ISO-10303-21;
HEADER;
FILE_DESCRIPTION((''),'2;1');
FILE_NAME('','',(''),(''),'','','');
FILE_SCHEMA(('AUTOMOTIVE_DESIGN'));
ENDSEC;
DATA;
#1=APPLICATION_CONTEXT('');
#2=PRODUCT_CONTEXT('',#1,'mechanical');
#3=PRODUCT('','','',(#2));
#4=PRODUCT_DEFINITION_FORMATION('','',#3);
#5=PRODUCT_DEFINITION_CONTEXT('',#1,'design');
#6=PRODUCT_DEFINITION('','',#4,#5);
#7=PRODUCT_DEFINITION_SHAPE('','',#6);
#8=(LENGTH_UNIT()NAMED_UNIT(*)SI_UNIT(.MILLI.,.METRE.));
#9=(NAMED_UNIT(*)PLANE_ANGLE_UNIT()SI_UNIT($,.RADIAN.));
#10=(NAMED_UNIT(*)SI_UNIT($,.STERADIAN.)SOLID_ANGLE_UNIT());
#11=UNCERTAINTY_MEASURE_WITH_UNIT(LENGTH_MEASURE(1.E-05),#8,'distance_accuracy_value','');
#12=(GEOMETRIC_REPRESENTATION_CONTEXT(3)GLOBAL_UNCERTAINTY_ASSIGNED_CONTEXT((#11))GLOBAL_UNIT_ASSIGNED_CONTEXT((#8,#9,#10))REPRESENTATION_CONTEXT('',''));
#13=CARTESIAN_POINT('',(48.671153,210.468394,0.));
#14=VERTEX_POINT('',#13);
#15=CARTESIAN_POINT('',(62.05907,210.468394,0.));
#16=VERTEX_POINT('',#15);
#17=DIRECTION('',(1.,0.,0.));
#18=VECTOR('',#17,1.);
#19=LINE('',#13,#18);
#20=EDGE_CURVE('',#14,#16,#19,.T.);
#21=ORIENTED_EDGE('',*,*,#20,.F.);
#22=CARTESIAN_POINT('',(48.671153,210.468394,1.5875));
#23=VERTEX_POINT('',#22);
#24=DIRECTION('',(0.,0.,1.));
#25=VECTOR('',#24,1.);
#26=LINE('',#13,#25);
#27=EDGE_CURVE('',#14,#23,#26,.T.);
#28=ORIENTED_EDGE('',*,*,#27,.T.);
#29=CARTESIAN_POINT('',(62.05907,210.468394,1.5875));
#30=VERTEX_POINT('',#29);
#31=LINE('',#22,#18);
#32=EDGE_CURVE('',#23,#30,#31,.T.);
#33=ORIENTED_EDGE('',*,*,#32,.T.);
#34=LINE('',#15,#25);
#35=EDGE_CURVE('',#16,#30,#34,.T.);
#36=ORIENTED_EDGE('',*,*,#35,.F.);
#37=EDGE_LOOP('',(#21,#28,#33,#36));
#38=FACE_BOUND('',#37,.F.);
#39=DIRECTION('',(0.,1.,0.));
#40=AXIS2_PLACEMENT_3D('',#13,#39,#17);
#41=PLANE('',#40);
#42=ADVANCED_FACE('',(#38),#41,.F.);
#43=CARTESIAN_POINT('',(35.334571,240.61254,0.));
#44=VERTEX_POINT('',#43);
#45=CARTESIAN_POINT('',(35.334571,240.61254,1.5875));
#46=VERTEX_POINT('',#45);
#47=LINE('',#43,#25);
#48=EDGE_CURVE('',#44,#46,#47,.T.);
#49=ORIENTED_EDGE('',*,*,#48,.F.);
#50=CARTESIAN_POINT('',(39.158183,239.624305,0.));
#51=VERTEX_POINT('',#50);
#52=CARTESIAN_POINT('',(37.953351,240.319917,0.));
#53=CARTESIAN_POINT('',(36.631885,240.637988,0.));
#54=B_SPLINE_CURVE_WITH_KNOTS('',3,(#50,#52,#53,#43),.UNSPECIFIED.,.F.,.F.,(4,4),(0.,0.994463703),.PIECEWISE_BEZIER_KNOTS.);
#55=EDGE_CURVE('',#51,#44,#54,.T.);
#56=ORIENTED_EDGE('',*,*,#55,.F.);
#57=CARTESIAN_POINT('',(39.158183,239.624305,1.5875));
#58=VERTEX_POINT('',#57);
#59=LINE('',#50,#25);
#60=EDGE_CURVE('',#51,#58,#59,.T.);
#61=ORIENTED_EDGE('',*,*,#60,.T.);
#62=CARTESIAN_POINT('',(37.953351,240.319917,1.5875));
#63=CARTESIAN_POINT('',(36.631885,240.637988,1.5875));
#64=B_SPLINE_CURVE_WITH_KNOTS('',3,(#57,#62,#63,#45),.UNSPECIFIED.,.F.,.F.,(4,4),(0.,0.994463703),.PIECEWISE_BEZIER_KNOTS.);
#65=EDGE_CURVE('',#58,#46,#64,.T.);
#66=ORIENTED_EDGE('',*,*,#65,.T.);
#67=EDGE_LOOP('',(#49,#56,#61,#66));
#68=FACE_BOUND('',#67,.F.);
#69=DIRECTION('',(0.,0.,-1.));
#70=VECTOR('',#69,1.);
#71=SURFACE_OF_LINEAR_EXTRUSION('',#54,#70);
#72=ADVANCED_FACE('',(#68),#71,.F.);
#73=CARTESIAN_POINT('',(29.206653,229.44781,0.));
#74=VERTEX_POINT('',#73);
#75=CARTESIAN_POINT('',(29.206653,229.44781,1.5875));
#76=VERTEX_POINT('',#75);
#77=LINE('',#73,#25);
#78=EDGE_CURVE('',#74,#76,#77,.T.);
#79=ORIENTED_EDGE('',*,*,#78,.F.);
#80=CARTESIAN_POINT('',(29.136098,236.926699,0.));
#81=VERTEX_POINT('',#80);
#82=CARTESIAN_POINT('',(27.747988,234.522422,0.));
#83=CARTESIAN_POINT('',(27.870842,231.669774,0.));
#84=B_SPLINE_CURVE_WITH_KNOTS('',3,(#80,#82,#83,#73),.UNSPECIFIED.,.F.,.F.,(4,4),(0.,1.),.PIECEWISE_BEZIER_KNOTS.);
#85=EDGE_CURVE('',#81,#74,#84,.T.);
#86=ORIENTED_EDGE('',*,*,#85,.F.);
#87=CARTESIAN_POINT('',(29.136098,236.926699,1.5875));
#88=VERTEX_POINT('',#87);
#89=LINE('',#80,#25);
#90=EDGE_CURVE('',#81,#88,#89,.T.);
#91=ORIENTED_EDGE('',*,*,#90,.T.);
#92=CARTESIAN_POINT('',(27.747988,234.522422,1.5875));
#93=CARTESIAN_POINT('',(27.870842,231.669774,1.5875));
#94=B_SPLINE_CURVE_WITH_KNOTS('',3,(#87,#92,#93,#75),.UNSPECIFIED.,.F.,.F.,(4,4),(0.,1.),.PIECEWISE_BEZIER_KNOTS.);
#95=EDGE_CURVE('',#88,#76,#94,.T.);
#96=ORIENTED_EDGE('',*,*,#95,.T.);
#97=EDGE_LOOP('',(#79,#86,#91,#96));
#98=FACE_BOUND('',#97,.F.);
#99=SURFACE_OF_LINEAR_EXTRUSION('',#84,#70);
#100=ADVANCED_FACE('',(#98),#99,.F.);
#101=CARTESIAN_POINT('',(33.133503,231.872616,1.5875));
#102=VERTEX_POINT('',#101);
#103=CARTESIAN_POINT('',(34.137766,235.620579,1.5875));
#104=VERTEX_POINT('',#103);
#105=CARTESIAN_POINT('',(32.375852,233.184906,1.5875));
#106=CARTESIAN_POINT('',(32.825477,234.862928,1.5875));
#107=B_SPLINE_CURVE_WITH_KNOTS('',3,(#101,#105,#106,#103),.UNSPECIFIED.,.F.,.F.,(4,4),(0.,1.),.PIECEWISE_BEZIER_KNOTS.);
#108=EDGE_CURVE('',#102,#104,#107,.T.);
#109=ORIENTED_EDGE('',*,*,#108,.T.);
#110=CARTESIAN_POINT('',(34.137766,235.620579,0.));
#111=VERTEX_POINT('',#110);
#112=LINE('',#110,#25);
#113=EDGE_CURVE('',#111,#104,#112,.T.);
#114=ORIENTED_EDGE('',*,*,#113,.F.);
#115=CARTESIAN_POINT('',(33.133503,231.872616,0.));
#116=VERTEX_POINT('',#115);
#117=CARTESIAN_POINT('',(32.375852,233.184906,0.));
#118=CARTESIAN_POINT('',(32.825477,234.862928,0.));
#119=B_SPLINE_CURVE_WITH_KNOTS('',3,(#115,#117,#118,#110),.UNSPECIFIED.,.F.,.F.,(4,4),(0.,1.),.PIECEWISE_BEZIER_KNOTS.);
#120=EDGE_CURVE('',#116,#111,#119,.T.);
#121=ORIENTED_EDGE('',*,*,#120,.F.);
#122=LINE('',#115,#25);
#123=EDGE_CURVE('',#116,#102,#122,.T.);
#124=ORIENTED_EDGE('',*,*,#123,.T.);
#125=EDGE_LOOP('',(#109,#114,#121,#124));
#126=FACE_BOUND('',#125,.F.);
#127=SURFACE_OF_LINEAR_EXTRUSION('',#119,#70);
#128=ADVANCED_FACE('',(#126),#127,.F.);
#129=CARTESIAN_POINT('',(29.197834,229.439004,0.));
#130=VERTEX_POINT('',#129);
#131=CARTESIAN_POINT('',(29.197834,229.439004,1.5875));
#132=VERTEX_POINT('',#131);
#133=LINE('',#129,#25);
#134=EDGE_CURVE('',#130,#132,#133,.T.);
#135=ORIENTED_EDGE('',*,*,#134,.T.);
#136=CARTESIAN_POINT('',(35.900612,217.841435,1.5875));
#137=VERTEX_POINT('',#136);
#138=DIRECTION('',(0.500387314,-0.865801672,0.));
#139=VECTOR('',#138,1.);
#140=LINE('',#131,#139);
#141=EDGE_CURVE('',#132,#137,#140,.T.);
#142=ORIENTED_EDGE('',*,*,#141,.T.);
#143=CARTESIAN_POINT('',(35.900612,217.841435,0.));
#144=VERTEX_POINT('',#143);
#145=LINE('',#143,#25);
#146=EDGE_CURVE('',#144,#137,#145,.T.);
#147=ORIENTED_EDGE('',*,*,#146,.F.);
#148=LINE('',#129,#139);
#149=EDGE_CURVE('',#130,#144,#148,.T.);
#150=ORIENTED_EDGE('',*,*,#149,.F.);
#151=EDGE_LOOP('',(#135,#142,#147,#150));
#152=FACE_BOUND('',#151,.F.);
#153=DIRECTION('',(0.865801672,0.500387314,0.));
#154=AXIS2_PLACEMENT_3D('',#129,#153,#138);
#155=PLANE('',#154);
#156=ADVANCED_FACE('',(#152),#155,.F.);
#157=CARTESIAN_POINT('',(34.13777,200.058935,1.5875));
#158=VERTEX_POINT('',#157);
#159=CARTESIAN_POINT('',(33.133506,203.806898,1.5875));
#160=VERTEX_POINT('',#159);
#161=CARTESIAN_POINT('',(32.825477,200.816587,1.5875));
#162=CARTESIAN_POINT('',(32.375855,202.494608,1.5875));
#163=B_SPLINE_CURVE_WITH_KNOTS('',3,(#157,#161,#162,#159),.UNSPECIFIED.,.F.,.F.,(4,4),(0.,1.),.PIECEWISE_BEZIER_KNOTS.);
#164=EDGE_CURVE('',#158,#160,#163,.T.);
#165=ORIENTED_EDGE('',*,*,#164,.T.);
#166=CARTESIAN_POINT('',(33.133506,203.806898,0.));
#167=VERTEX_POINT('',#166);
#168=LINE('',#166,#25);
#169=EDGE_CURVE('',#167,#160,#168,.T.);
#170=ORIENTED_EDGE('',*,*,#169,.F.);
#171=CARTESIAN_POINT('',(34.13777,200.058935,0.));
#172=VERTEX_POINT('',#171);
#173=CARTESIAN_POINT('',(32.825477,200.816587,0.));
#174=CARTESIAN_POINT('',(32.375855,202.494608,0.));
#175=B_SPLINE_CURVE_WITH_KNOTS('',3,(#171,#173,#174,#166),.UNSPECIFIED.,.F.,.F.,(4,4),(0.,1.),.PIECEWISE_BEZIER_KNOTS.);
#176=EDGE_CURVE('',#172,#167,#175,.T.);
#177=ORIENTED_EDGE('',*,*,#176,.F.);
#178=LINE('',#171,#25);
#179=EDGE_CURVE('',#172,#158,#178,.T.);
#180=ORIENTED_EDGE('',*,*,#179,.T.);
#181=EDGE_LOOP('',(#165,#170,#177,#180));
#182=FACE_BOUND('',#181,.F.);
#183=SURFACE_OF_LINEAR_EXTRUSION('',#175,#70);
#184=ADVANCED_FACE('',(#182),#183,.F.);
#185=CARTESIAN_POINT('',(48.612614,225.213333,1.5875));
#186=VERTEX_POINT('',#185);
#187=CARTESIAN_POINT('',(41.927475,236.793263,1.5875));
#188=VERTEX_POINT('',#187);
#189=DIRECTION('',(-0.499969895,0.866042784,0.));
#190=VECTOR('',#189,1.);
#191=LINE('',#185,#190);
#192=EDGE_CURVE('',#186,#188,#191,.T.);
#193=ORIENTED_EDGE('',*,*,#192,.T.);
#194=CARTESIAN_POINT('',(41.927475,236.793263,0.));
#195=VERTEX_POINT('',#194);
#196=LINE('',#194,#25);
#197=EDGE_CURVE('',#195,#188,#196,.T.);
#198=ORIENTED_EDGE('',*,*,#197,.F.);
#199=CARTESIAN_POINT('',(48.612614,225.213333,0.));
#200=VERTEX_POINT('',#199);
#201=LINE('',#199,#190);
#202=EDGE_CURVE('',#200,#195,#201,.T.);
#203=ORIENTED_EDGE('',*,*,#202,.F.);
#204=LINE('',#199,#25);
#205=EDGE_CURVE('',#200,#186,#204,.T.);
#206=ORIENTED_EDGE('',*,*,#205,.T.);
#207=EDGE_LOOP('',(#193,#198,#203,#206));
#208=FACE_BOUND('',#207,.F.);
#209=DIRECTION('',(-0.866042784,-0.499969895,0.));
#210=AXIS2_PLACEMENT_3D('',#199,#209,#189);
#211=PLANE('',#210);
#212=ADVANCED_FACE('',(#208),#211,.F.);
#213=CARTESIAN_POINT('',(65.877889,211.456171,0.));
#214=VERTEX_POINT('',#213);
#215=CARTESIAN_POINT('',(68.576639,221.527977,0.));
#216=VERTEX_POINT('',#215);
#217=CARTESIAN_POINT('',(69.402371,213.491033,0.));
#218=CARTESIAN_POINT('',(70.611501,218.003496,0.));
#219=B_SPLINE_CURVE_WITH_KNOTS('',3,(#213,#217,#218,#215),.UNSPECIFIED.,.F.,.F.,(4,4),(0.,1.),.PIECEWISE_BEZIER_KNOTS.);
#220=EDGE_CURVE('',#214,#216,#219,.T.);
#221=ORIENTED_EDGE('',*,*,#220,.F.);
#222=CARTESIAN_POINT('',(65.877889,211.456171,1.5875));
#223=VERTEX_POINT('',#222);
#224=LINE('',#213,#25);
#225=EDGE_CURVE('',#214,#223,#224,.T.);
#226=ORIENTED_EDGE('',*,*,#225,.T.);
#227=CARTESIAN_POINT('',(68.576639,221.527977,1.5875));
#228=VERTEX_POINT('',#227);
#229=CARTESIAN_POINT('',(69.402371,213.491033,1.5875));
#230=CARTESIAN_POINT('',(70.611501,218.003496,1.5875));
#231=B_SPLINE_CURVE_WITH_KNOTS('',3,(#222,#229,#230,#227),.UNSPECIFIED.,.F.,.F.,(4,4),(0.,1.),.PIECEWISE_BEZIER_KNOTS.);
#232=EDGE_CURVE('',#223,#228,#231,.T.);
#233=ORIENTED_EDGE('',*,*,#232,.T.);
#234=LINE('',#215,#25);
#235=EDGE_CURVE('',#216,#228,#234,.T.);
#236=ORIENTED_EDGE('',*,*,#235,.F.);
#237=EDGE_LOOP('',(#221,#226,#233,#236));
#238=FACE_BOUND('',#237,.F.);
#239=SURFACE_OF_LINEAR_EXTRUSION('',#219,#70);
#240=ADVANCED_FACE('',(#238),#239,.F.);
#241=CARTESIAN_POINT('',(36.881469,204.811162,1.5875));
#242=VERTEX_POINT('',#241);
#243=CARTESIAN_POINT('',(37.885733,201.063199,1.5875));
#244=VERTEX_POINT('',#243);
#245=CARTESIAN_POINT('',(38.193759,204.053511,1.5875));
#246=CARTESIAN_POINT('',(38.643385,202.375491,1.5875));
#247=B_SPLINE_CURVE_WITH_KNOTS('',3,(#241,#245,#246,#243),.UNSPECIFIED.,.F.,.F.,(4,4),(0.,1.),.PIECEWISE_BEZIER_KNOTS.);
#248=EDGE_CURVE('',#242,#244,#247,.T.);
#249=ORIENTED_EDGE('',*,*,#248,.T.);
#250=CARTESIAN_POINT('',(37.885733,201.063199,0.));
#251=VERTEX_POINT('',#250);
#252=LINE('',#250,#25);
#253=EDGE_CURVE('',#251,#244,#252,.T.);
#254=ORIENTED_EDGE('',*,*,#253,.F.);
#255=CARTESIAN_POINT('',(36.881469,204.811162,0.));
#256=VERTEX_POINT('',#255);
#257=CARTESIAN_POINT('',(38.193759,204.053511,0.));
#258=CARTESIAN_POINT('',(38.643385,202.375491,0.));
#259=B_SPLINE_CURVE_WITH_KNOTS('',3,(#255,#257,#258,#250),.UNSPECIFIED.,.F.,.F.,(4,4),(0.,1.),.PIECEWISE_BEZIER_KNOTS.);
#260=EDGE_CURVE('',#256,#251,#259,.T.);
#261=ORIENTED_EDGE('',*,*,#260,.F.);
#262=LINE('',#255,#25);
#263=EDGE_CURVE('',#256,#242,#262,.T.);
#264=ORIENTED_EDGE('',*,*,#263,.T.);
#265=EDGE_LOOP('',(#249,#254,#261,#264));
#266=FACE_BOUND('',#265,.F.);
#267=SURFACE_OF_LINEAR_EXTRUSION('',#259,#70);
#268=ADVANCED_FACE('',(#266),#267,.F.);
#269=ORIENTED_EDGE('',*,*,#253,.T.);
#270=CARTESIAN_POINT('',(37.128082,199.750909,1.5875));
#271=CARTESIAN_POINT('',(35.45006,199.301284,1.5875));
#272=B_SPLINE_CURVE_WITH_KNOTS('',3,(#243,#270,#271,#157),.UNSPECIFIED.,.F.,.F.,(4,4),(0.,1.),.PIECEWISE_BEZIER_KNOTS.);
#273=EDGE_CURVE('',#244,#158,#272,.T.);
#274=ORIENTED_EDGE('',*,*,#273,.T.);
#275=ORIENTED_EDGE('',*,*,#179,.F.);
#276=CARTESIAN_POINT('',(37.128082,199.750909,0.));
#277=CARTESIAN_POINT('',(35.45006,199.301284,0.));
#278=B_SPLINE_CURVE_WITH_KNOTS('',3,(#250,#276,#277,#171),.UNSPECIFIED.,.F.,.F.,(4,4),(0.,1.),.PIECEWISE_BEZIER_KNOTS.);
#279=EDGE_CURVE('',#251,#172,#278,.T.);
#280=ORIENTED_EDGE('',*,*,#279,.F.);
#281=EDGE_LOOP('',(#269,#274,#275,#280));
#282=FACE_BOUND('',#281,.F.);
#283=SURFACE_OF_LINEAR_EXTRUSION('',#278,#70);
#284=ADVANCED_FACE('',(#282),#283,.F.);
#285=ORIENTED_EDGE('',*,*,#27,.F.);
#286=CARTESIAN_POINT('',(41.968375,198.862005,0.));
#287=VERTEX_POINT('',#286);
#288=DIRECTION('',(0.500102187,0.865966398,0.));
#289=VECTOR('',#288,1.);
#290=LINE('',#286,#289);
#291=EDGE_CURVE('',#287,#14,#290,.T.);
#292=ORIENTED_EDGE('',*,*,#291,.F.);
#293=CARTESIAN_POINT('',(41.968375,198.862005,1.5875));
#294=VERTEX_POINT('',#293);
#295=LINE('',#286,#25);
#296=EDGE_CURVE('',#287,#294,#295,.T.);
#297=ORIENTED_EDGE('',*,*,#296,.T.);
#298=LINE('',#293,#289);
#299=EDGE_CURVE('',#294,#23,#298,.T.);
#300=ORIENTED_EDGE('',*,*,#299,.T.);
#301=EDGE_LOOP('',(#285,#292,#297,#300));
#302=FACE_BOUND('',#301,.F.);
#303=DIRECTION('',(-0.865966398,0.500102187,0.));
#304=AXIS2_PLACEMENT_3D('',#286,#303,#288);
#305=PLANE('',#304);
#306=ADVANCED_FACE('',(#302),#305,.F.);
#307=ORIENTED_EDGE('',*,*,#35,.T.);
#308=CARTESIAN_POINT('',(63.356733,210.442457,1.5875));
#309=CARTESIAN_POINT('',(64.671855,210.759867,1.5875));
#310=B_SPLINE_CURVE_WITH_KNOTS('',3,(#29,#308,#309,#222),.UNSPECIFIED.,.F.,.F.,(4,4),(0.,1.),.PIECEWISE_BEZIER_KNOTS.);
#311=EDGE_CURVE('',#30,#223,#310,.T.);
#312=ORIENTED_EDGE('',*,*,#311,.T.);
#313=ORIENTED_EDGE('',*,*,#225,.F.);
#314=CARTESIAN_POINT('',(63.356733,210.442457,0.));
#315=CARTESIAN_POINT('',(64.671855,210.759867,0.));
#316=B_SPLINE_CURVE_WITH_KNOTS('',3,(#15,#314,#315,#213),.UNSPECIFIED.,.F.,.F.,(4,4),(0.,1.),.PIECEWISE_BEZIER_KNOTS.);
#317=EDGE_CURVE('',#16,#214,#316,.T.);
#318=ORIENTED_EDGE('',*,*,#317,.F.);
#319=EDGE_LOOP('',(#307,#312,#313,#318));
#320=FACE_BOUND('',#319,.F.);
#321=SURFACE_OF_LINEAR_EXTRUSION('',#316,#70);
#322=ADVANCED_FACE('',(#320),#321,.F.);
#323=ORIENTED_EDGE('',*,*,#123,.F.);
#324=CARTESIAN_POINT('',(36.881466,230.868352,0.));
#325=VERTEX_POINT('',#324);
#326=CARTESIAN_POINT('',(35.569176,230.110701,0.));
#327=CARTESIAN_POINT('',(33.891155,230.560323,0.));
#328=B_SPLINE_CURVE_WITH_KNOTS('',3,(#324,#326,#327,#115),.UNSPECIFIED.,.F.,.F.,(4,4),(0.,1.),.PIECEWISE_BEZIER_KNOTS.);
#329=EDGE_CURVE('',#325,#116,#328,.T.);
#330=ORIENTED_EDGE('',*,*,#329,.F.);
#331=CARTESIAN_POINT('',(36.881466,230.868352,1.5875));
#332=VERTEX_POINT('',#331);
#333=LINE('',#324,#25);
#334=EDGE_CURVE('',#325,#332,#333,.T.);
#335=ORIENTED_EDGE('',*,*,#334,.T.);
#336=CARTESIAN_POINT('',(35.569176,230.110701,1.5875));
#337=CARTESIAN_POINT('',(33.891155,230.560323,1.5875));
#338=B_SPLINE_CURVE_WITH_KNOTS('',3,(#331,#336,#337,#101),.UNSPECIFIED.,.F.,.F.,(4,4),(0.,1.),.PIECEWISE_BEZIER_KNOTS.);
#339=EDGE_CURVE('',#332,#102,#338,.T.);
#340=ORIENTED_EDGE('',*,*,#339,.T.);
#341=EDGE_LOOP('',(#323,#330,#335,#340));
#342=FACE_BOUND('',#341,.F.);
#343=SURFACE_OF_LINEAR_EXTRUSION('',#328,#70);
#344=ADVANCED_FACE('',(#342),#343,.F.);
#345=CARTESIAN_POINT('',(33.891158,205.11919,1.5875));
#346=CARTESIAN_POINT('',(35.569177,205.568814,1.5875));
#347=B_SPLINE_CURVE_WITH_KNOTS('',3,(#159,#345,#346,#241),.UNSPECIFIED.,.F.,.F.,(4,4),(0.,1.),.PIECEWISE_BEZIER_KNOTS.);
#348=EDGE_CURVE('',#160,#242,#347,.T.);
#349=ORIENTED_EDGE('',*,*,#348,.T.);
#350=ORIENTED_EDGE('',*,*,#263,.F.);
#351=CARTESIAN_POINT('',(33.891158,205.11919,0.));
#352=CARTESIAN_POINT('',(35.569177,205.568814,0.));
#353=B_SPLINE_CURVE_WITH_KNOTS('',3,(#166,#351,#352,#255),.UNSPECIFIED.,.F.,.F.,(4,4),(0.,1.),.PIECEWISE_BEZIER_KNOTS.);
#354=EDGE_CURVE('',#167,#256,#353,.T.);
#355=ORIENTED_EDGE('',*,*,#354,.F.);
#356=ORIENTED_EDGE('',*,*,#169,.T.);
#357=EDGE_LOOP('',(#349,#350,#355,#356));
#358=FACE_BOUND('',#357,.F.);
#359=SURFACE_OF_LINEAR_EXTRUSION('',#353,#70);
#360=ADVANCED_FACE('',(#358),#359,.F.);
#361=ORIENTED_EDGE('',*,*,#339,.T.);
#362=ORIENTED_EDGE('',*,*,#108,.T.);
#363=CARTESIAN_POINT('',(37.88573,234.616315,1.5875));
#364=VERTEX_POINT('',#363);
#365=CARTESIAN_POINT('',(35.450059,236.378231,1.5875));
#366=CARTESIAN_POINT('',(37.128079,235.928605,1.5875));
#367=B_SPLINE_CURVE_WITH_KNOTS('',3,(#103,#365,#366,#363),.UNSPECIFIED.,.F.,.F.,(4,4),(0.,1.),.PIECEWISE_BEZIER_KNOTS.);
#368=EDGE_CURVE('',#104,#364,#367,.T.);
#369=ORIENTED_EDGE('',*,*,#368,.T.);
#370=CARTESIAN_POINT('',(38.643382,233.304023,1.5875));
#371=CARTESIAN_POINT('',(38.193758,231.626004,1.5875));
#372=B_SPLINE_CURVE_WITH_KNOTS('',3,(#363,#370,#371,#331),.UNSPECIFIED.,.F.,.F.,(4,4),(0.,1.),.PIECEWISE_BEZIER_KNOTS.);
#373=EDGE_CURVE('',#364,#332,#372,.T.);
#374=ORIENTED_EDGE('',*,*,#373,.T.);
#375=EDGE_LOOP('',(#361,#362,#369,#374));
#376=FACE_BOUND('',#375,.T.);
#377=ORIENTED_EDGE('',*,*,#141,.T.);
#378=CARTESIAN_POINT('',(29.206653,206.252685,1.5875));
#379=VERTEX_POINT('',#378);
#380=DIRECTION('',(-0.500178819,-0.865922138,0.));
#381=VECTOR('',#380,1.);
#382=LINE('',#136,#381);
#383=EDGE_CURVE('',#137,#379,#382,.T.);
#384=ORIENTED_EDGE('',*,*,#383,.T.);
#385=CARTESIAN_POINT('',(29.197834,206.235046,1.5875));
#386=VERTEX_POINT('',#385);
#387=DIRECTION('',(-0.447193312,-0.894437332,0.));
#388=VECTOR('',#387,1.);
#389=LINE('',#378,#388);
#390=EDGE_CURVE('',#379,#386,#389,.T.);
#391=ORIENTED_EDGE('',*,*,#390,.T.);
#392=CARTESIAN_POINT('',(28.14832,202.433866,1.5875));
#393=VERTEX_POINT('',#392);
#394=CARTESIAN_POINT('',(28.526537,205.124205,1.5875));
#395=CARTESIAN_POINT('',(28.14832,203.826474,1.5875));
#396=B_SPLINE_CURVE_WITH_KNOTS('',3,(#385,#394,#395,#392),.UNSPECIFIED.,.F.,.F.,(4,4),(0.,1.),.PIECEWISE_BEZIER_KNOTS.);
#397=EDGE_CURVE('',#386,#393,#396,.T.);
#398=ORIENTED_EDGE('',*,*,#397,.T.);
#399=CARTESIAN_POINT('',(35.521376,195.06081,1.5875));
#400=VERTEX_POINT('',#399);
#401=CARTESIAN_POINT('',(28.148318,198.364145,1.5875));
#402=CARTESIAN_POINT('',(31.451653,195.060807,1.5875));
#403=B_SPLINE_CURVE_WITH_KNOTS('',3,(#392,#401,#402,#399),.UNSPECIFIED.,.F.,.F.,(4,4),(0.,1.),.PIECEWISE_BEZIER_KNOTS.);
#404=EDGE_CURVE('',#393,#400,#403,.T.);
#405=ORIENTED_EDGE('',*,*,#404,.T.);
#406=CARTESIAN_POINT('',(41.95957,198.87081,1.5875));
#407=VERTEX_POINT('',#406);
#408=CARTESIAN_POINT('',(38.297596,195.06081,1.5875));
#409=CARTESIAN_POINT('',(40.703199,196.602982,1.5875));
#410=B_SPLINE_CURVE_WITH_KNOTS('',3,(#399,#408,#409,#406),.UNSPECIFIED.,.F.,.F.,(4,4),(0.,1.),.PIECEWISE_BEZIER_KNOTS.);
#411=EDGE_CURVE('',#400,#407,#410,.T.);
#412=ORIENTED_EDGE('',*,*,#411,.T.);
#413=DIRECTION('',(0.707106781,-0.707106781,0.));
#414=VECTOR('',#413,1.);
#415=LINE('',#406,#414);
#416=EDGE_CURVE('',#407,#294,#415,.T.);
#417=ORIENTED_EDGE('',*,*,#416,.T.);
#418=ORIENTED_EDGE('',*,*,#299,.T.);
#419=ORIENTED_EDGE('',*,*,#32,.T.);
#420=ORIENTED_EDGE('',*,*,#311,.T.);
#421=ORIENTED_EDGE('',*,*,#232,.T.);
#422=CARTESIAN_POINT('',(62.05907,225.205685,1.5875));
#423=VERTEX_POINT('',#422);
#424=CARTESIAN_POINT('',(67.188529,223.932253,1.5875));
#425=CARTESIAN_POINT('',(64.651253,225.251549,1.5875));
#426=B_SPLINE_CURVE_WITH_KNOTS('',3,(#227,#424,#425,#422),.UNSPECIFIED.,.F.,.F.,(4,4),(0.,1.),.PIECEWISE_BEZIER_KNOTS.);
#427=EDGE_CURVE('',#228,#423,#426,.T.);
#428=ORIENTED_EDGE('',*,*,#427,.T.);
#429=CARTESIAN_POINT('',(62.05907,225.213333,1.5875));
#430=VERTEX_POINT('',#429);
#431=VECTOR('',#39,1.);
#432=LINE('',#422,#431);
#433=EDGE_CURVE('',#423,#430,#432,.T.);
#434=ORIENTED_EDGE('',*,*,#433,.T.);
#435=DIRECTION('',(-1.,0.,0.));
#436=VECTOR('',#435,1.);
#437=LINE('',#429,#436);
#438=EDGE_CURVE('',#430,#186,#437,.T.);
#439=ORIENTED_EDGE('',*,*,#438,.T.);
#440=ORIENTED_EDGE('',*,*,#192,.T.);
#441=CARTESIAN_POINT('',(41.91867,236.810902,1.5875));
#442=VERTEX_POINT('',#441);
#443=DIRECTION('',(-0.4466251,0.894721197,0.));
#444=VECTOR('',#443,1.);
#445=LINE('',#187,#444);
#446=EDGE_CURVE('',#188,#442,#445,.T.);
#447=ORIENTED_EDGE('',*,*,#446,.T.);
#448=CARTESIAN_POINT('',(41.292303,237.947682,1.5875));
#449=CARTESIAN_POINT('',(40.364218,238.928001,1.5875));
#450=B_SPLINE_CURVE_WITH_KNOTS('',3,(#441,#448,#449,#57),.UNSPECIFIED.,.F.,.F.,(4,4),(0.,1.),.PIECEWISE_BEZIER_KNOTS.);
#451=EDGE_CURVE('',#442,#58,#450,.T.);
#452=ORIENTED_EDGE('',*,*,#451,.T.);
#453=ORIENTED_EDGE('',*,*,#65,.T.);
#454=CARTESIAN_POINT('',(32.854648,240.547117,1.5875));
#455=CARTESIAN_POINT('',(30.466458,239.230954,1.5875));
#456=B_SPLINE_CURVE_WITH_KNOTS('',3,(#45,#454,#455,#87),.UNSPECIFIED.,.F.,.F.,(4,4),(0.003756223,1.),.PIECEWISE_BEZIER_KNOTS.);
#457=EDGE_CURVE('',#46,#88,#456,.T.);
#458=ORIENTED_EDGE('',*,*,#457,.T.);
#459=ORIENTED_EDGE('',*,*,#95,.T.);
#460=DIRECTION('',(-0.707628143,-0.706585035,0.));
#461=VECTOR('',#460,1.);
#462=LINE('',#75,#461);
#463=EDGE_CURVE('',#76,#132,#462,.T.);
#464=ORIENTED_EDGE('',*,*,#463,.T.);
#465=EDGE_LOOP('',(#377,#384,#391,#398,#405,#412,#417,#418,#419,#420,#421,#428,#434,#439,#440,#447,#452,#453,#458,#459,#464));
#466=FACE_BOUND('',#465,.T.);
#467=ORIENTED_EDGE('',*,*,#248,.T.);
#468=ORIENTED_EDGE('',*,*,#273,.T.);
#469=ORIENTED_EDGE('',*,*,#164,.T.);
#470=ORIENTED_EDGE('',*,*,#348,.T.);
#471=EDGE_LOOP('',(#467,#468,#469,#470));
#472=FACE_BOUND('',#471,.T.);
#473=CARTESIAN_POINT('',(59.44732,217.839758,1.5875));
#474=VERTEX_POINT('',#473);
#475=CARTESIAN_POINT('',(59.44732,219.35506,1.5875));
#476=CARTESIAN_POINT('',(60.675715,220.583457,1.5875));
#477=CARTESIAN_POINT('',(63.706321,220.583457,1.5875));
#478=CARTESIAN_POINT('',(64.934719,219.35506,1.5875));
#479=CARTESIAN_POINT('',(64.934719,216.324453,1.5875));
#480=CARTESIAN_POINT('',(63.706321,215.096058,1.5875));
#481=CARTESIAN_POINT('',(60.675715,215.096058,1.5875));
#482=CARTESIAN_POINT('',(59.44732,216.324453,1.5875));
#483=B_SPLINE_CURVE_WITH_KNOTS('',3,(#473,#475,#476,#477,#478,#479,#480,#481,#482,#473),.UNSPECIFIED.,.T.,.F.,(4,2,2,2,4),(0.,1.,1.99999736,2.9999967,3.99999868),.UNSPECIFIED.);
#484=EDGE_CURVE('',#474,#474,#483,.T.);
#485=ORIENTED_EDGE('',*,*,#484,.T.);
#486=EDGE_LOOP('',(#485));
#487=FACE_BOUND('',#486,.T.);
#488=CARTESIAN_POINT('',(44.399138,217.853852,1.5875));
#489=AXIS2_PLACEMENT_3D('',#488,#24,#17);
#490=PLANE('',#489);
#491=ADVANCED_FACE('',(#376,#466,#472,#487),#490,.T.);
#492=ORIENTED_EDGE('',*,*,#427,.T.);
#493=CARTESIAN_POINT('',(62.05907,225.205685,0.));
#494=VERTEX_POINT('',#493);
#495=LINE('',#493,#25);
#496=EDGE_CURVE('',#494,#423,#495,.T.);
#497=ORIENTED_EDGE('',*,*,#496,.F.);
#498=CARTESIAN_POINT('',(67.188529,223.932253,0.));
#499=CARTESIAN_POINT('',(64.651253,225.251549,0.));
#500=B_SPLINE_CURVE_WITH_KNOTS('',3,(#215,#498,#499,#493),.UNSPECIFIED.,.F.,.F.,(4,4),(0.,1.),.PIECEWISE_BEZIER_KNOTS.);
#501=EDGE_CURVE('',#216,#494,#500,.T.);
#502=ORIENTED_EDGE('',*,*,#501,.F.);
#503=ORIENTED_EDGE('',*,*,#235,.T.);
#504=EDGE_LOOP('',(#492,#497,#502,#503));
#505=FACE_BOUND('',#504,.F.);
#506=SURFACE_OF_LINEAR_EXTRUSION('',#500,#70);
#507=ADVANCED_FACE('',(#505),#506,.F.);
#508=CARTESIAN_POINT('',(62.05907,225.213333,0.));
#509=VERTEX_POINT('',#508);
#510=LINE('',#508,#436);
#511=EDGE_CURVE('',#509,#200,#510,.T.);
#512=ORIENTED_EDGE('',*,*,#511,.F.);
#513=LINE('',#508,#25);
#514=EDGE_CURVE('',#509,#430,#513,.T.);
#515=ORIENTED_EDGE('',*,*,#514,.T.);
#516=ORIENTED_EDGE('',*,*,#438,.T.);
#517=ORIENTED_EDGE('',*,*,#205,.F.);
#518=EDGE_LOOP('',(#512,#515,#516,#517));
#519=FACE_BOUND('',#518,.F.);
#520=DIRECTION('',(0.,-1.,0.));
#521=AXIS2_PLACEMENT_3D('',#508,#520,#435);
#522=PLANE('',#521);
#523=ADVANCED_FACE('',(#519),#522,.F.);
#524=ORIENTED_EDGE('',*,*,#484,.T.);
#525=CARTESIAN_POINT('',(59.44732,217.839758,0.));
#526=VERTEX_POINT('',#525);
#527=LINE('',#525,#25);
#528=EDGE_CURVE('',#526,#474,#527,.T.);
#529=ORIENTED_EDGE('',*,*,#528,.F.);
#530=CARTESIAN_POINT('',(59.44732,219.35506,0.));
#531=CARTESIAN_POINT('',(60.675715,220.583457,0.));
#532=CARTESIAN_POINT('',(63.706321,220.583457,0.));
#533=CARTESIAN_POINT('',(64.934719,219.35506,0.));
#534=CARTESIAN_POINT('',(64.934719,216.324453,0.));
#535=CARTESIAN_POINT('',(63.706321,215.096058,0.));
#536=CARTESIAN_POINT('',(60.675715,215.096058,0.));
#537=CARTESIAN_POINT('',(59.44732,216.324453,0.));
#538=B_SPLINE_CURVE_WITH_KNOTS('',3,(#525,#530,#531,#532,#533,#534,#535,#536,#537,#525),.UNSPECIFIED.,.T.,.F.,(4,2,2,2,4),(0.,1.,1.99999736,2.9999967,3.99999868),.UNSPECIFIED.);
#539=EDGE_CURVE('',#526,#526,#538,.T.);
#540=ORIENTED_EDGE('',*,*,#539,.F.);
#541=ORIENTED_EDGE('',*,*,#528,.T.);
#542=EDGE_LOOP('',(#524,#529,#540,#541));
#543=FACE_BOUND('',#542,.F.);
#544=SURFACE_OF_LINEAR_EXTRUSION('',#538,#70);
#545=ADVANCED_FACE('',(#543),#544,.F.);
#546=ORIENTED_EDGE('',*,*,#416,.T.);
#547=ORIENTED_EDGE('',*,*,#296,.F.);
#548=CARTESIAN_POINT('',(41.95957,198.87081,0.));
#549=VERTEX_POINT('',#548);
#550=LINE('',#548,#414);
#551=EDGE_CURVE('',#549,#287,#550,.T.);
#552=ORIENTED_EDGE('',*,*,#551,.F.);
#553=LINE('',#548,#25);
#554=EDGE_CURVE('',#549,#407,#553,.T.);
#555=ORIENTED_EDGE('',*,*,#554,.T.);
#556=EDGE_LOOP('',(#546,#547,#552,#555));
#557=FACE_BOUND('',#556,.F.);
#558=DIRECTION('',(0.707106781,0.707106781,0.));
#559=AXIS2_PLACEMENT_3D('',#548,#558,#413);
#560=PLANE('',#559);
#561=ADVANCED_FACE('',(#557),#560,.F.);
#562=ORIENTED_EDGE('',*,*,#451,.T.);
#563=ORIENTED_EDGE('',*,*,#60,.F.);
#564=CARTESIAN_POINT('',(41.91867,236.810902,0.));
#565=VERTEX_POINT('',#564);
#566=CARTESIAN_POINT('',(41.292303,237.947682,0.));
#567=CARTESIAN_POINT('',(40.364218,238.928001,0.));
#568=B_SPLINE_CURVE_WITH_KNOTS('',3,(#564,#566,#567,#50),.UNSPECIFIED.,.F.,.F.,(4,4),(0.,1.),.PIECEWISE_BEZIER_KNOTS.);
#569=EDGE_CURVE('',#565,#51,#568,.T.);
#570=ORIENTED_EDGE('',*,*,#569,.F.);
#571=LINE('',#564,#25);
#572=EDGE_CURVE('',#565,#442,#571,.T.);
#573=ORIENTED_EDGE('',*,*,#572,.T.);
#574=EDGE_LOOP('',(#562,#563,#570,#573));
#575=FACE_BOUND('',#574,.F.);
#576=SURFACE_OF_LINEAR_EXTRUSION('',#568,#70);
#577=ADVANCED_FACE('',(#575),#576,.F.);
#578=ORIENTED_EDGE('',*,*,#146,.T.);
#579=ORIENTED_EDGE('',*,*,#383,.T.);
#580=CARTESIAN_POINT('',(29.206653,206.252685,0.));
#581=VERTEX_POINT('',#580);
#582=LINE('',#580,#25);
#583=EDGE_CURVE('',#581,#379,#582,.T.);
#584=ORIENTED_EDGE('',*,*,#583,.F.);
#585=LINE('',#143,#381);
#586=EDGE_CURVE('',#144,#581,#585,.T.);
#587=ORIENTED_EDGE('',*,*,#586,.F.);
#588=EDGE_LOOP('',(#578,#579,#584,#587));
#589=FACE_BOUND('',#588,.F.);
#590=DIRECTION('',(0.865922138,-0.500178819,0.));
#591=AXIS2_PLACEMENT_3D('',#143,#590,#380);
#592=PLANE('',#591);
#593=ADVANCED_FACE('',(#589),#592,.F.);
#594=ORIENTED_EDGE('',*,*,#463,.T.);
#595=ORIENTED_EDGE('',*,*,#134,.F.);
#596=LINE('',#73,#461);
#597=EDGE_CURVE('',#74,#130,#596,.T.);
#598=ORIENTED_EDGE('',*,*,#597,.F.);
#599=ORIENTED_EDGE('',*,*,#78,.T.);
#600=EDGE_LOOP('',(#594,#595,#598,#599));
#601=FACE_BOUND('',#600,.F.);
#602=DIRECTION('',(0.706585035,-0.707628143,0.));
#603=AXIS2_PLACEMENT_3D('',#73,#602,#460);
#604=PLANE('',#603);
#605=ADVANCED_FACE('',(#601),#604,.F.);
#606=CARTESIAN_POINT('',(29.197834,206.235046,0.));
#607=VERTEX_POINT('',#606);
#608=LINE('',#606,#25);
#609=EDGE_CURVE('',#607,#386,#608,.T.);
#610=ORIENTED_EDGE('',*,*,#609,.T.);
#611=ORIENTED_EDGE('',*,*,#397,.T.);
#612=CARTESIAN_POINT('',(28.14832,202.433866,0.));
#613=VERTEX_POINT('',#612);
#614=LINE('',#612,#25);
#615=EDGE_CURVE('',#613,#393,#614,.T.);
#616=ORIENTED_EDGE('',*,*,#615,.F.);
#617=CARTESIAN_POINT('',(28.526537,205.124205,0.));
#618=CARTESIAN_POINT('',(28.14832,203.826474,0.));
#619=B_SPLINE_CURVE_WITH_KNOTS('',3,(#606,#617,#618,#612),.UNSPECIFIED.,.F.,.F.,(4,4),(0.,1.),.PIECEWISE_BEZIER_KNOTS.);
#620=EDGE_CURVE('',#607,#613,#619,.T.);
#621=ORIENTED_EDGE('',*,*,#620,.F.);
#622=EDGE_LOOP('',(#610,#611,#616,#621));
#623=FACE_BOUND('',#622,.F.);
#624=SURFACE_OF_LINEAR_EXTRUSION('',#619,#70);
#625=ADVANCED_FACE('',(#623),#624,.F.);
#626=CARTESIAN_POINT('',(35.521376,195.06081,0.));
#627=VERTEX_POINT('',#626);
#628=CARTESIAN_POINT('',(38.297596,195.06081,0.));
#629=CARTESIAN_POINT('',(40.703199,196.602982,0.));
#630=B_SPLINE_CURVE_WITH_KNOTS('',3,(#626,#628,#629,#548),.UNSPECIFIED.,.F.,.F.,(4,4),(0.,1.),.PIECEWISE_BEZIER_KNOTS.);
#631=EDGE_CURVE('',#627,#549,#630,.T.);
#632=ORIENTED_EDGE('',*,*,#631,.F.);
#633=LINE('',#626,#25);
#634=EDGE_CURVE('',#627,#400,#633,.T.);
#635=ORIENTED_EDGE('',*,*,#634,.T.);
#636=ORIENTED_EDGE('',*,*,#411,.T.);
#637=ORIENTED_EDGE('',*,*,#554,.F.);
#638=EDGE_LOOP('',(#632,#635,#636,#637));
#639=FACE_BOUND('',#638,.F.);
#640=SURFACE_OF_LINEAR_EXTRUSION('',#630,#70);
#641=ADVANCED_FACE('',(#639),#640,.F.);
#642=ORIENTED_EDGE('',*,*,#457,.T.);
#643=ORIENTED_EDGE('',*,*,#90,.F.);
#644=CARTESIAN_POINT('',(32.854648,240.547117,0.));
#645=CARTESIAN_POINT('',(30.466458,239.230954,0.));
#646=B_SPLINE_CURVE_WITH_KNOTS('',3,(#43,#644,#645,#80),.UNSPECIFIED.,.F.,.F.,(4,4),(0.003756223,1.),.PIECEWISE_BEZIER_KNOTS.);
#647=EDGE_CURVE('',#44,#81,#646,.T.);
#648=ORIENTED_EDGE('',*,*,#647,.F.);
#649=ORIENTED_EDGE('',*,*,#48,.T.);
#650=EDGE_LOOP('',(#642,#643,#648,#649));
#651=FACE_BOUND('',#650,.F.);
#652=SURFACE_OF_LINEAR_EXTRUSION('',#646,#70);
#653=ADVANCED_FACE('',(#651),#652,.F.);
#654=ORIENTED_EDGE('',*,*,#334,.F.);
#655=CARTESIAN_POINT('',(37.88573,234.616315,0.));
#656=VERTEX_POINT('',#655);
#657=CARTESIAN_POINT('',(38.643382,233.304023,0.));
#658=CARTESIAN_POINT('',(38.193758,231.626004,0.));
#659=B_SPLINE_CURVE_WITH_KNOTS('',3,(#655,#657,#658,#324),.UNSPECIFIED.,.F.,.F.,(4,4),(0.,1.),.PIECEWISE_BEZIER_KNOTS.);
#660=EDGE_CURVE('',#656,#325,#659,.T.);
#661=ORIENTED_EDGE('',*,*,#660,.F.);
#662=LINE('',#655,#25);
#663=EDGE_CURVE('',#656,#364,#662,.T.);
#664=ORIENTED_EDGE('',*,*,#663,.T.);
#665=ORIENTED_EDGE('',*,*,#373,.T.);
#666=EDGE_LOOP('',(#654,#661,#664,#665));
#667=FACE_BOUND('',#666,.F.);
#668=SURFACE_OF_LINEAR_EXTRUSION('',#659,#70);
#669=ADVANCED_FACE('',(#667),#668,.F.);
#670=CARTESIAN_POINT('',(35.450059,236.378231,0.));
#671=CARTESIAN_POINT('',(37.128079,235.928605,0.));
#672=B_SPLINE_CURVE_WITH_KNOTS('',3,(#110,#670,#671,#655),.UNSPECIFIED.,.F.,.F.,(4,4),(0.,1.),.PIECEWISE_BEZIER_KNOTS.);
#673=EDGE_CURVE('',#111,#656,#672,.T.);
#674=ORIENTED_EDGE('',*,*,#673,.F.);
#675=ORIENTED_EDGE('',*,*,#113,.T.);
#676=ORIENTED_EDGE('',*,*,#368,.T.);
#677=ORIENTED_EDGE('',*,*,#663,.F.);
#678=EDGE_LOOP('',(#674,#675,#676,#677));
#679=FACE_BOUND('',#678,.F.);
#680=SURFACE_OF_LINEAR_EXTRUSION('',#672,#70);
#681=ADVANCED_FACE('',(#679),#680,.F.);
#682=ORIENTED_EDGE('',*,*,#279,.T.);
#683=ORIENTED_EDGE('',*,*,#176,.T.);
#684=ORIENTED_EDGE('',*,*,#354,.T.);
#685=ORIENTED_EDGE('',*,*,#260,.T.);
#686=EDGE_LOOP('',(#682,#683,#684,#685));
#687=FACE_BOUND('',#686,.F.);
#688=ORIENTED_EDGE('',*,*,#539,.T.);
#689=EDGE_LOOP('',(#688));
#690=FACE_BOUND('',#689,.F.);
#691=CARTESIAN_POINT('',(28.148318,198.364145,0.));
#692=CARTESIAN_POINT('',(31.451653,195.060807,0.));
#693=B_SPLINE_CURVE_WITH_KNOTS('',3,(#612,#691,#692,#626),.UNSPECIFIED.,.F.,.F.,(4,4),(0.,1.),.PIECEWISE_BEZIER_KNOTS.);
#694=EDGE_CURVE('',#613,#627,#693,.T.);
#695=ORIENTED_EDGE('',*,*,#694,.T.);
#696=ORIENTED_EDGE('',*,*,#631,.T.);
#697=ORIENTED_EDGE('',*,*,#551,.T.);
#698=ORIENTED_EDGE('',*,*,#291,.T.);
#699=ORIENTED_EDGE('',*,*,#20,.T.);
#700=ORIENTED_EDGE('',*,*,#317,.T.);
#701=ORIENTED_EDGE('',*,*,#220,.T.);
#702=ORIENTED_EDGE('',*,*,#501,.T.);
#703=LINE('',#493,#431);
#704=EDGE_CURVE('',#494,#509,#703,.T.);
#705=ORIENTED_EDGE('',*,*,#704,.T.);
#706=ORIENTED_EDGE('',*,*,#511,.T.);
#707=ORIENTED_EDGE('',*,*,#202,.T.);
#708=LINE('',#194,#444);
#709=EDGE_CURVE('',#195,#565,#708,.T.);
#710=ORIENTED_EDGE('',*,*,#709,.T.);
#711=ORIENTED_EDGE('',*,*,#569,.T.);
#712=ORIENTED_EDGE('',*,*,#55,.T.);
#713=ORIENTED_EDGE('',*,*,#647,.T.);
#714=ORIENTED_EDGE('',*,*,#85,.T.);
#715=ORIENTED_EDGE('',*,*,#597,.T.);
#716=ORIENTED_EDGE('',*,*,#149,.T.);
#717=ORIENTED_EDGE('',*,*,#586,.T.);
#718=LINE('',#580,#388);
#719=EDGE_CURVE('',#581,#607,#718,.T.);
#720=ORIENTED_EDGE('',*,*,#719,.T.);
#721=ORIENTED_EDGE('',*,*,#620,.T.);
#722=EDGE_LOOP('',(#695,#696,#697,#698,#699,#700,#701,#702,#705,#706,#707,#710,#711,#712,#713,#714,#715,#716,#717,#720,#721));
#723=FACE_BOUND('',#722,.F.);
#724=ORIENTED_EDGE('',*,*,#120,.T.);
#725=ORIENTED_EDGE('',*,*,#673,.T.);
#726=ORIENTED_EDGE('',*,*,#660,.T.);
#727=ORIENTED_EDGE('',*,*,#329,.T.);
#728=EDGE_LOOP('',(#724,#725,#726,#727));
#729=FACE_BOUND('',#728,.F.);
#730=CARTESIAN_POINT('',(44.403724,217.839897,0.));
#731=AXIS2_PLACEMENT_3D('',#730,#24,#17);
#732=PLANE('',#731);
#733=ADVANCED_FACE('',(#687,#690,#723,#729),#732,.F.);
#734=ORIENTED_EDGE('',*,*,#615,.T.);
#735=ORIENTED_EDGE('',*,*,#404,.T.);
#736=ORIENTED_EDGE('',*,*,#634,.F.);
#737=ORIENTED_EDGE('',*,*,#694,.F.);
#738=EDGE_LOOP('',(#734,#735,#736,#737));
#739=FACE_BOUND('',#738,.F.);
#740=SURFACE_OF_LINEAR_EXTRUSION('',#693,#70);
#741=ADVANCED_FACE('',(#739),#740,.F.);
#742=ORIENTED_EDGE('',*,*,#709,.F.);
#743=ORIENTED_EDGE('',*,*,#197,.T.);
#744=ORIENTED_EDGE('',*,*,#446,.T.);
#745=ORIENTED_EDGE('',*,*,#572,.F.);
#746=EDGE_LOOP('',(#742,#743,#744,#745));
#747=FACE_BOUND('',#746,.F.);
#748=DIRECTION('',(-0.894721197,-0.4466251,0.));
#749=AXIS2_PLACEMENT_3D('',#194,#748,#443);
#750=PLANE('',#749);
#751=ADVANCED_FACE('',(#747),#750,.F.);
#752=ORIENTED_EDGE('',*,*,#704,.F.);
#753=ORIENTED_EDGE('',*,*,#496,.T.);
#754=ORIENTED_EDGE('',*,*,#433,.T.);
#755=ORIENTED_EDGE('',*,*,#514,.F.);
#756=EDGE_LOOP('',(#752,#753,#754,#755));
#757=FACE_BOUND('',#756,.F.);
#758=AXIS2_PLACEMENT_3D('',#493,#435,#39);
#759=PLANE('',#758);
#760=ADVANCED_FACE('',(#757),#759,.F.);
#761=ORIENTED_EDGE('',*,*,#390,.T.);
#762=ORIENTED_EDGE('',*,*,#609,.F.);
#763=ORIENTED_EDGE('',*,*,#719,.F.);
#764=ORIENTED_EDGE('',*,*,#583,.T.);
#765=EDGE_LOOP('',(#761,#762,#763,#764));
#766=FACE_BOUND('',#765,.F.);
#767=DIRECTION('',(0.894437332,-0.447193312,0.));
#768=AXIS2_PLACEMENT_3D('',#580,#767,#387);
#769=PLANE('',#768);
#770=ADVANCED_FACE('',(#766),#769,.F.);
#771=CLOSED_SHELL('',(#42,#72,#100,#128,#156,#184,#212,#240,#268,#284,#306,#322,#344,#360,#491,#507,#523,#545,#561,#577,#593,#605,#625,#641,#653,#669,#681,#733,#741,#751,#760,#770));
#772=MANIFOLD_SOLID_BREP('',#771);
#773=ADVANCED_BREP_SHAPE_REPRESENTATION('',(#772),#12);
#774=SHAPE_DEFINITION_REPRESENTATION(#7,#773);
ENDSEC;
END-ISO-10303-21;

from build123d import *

# Parameters (mm, degrees)
BOSS_EXTRUDE5_DEPTH = 1.5875


with BuildPart() as part:
    # carrier → Boss-Extrude5 (new body)
    # profile 1 of 2: a face of its own
    with BuildSketch(Plane(origin=(-89.612357323, 67.458483608, 0), x_dir=(1, 0, 0), z_dir=(0, 0, 1))):
        with BuildLine():
            add(Edge.make_bspline(
                [(118.748455038, 169.468215691), (117.360345038, 167.063938691), (117.483199038, 164.211290691), (118.819010038, 161.989326691)],
                knots=[0, 0, 0, 0, 1, 1, 1, 1], degree=3))
            Line((118.819010038, 161.989326691), (118.810191038, 161.980520691))
            Line((118.810191038, 161.980520691), (125.512969038, 150.382951691))
            Line((125.512969038, 150.382951691), (118.819010038, 138.794201691))
            Line((118.819010038, 138.794201691), (118.810191038, 138.776562691))
            add(Edge.make_bspline(
                [(118.810191038, 138.776562691), (118.138894038, 137.665721691), (117.760677038, 136.367990691), (117.760677038, 134.975382691)],
                knots=[0, 0, 0, 0, 1, 1, 1, 1], degree=3))
            add(Edge.make_bspline(
                [(117.760677038, 134.975382691), (117.760675038, 130.905661691), (121.064010038, 127.602323691), (125.133733038, 127.602326691)],
                knots=[0, 0, 0, 0, 1, 1, 1, 1], degree=3))
            add(Edge.make_bspline(
                [(125.133733038, 127.602326691), (127.909953038, 127.602326691), (130.315556038, 129.144498691), (131.571927038, 131.412326691)],
                knots=[0, 0, 0, 0, 1, 1, 1, 1], degree=3))
            Line((131.571927038, 131.412326691), (131.580732038, 131.403521691))
            Line((131.580732038, 131.403521691), (138.283510038, 143.009910691))
            Line((138.283510038, 143.009910691), (151.653788038, 143.009910691))
            Line((151.653788038, 143.009910691), (151.671427038, 143.009910691))
            add(Edge.make_bspline(
                [(151.671427038, 143.009910691), (152.969090038, 142.983973691), (154.284212038, 143.301383691), (155.490246038, 143.997687691)],
                knots=[0, 0, 0, 0, 1, 1, 1, 1], degree=3))
            add(Edge.make_bspline(
                [(155.490246038, 143.997687691), (159.014728038, 146.032549691), (160.223858038, 150.545012691), (158.188996038, 154.069493691)],
                knots=[0, 0, 0, 0, 1, 1, 1, 1], degree=3))
            add(Edge.make_bspline(
                [(158.188996038, 154.069493691), (156.800886038, 156.473769691), (154.263610038, 157.793065691), (151.671427038, 157.747201691)],
                knots=[0, 0, 0, 0, 1, 1, 1, 1], degree=3))
            Line((151.671427038, 157.747201691), (151.671427038, 157.754849091))
            Line((151.671427038, 157.754849091), (138.224971754, 157.754849091))
            Line((138.224971754, 157.754849091), (131.539832754, 169.334779091))
            Line((131.539832754, 169.334779091), (131.531027754, 169.352418091))
            add(Edge.make_bspline(
                [(131.531027754, 169.352418091), (130.904660754, 170.489198091), (129.976575754, 171.469517091), (128.770540754, 172.165821091)],
                knots=[0, 0, 0, 0, 1, 1, 1, 1], degree=3))
            add(Edge.make_bspline(
                [(128.770540754, 172.165821091), (127.565708199, 172.861433534), (126.244241887, 173.179504317), (124.946928377, 173.154056045)],
                knots=[0, 0, 0, 0, 0.994463703, 0.994463703, 0.994463703, 0.994463703], degree=3))
            add(Edge.make_bspline(
                [(124.946928377, 173.154056045), (122.467005204, 173.088633853), (120.078815068, 171.772470761), (118.748455038, 169.468215691)],
                knots=[0.003756223, 0.003756223, 0.003756223, 0.003756223, 1, 1, 1, 1], degree=3))
        make_face()
        with BuildLine():
            add(Edge.make_bspline(
                [(127.49809, 133.604715), (126.740439, 132.292425), (125.062417, 131.8428), (123.750127, 132.600451)],
                knots=[0, 0, 0, 0, 1, 1, 1, 1], degree=3))
            add(Edge.make_bspline(
                [(123.750127, 132.600451), (122.437834, 133.358103), (121.988212, 135.036124), (122.745863, 136.348414)],
                knots=[0, 0, 0, 0, 1, 1, 1, 1], degree=3))
            add(Edge.make_bspline(
                [(122.745863, 136.348414), (123.503515, 137.660706), (125.181534, 138.11033), (126.493826, 137.352678)],
                knots=[0, 0, 0, 0, 1, 1, 1, 1], degree=3))
            add(Edge.make_bspline(
                [(126.493826, 137.352678), (127.806116, 136.595027), (128.255742, 134.917007), (127.49809, 133.604715)],
                knots=[0, 0, 0, 0, 1, 1, 1, 1], degree=3))
        make_face(mode=Mode.SUBTRACT)
        with BuildLine():
            Line((136.683962, 148.224924), (131.348201, 148.224924))
            add(Edge.make_bspline(
                [(130.580909, 150.385688), (130.580909, 149.56754), (130.870517, 148.814777), (131.348201, 148.224924)],
                knots=[0, 0, 0, 0, 1, 1, 1, 1], degree=3))
            add(Edge.make_bspline(
                [(131.348201, 152.537633), (130.870517, 151.94778), (130.580909, 151.203836), (130.580909, 150.385688)],
                knots=[0, 0, 0, 0, 1, 1, 1, 1], degree=3))
            Line((131.348201, 152.537633), (136.683962, 152.537633))
            add(Edge.make_bspline(
                [(137.451253, 150.385688), (137.451253, 151.203836), (137.161645, 151.94778), (136.683962, 152.537633)],
                knots=[0, 0, 0, 0, 1, 1, 1, 1], degree=3))
            add(Edge.make_bspline(
                [(136.683962, 148.224924), (137.161645, 148.814777), (137.451253, 149.56754), (137.451253, 150.385688)],
                knots=[0, 0, 0, 0, 1, 1, 1, 1], degree=3))
        make_face(mode=Mode.SUBTRACT)
        with BuildLine():
            add(Edge.make_bspline(
                [(151.803377, 153.124973), (153.318678, 153.124973), (154.547076, 151.896576), (154.547076, 150.381274)],
                knots=[0, 0, 0, 0, 1, 1, 1, 1], degree=3))
            add(Edge.make_bspline(
                [(154.547076, 150.381274), (154.547076, 148.865969), (153.318678, 147.637574), (151.803377, 147.637574)],
                knots=[0, 0, 0, 0, 1, 1, 1, 1], degree=3))
            add(Edge.make_bspline(
                [(151.803377, 147.637574), (150.288072, 147.637574), (149.059677, 148.865969), (149.059677, 150.381274)],
                knots=[0, 0, 0, 0, 1, 1, 1, 1], degree=3))
            add(Edge.make_bspline(
                [(149.059677, 150.381274), (149.059677, 151.896576), (150.288072, 153.124973), (151.803377, 153.124973)],
                knots=[0, 0, 0, 0, 1, 1, 1, 1], degree=3))
        make_face(mode=Mode.SUBTRACT)
        with BuildLine():
            add(Edge.make_bspline(
                [(122.74586, 164.414132), (121.988209, 165.726422), (122.437834, 167.404444), (123.750123, 168.162095)],
                knots=[0, 0, 0, 0, 1, 1, 1, 1], degree=3))
            add(Edge.make_bspline(
                [(123.750123, 168.162095), (125.062416, 168.919747), (126.740436, 168.470121), (127.498087, 167.157831)],
                knots=[0, 0, 0, 0, 1, 1, 1, 1], degree=3))
            add(Edge.make_bspline(
                [(127.498087, 167.157831), (128.255739, 165.845539), (127.806115, 164.16752), (126.493823, 163.409868)],
                knots=[0, 0, 0, 0, 1, 1, 1, 1], degree=3))
            add(Edge.make_bspline(
                [(126.493823, 163.409868), (125.181533, 162.652217), (123.503512, 163.101839), (122.74586, 164.414132)],
                knots=[0, 0, 0, 0, 1, 1, 1, 1], degree=3))
        make_face(mode=Mode.SUBTRACT)
    # profile 2 of 2: a face of its own
    with BuildSketch(Plane(origin=(-89.612357323, 67.458483608, 0), x_dir=(1, 0, 0), z_dir=(0, 0, 1))):
        with BuildLine():
            add(Edge.make_bspline(
                [(130.580909, 150.385688), (130.580909, 149.56754), (130.870517, 148.814777), (131.348201, 148.224924)],
                knots=[0, 0, 0, 0, 1, 1, 1, 1], degree=3))
            Line((131.348201, 148.224924), (136.683962, 148.224924))
            add(Edge.make_bspline(
                [(136.683962, 148.224924), (137.161645, 148.814777), (137.451253, 149.56754), (137.451253, 150.385688)],
                knots=[0, 0, 0, 0, 1, 1, 1, 1], degree=3))
            add(Edge.make_bspline(
                [(137.451253, 150.385688), (137.451253, 151.203836), (137.161645, 151.94778), (136.683962, 152.537633)],
                knots=[0, 0, 0, 0, 1, 1, 1, 1], degree=3))
            Line((136.683962, 152.537633), (131.348201, 152.537633))
            add(Edge.make_bspline(
                [(131.348201, 152.537633), (130.870517, 151.94778), (130.580909, 151.203836), (130.580909, 150.385688)],
                knots=[0, 0, 0, 0, 1, 1, 1, 1], degree=3))
        make_face()
    extrude(amount=BOSS_EXTRUDE5_DEPTH)


solid = part.part
